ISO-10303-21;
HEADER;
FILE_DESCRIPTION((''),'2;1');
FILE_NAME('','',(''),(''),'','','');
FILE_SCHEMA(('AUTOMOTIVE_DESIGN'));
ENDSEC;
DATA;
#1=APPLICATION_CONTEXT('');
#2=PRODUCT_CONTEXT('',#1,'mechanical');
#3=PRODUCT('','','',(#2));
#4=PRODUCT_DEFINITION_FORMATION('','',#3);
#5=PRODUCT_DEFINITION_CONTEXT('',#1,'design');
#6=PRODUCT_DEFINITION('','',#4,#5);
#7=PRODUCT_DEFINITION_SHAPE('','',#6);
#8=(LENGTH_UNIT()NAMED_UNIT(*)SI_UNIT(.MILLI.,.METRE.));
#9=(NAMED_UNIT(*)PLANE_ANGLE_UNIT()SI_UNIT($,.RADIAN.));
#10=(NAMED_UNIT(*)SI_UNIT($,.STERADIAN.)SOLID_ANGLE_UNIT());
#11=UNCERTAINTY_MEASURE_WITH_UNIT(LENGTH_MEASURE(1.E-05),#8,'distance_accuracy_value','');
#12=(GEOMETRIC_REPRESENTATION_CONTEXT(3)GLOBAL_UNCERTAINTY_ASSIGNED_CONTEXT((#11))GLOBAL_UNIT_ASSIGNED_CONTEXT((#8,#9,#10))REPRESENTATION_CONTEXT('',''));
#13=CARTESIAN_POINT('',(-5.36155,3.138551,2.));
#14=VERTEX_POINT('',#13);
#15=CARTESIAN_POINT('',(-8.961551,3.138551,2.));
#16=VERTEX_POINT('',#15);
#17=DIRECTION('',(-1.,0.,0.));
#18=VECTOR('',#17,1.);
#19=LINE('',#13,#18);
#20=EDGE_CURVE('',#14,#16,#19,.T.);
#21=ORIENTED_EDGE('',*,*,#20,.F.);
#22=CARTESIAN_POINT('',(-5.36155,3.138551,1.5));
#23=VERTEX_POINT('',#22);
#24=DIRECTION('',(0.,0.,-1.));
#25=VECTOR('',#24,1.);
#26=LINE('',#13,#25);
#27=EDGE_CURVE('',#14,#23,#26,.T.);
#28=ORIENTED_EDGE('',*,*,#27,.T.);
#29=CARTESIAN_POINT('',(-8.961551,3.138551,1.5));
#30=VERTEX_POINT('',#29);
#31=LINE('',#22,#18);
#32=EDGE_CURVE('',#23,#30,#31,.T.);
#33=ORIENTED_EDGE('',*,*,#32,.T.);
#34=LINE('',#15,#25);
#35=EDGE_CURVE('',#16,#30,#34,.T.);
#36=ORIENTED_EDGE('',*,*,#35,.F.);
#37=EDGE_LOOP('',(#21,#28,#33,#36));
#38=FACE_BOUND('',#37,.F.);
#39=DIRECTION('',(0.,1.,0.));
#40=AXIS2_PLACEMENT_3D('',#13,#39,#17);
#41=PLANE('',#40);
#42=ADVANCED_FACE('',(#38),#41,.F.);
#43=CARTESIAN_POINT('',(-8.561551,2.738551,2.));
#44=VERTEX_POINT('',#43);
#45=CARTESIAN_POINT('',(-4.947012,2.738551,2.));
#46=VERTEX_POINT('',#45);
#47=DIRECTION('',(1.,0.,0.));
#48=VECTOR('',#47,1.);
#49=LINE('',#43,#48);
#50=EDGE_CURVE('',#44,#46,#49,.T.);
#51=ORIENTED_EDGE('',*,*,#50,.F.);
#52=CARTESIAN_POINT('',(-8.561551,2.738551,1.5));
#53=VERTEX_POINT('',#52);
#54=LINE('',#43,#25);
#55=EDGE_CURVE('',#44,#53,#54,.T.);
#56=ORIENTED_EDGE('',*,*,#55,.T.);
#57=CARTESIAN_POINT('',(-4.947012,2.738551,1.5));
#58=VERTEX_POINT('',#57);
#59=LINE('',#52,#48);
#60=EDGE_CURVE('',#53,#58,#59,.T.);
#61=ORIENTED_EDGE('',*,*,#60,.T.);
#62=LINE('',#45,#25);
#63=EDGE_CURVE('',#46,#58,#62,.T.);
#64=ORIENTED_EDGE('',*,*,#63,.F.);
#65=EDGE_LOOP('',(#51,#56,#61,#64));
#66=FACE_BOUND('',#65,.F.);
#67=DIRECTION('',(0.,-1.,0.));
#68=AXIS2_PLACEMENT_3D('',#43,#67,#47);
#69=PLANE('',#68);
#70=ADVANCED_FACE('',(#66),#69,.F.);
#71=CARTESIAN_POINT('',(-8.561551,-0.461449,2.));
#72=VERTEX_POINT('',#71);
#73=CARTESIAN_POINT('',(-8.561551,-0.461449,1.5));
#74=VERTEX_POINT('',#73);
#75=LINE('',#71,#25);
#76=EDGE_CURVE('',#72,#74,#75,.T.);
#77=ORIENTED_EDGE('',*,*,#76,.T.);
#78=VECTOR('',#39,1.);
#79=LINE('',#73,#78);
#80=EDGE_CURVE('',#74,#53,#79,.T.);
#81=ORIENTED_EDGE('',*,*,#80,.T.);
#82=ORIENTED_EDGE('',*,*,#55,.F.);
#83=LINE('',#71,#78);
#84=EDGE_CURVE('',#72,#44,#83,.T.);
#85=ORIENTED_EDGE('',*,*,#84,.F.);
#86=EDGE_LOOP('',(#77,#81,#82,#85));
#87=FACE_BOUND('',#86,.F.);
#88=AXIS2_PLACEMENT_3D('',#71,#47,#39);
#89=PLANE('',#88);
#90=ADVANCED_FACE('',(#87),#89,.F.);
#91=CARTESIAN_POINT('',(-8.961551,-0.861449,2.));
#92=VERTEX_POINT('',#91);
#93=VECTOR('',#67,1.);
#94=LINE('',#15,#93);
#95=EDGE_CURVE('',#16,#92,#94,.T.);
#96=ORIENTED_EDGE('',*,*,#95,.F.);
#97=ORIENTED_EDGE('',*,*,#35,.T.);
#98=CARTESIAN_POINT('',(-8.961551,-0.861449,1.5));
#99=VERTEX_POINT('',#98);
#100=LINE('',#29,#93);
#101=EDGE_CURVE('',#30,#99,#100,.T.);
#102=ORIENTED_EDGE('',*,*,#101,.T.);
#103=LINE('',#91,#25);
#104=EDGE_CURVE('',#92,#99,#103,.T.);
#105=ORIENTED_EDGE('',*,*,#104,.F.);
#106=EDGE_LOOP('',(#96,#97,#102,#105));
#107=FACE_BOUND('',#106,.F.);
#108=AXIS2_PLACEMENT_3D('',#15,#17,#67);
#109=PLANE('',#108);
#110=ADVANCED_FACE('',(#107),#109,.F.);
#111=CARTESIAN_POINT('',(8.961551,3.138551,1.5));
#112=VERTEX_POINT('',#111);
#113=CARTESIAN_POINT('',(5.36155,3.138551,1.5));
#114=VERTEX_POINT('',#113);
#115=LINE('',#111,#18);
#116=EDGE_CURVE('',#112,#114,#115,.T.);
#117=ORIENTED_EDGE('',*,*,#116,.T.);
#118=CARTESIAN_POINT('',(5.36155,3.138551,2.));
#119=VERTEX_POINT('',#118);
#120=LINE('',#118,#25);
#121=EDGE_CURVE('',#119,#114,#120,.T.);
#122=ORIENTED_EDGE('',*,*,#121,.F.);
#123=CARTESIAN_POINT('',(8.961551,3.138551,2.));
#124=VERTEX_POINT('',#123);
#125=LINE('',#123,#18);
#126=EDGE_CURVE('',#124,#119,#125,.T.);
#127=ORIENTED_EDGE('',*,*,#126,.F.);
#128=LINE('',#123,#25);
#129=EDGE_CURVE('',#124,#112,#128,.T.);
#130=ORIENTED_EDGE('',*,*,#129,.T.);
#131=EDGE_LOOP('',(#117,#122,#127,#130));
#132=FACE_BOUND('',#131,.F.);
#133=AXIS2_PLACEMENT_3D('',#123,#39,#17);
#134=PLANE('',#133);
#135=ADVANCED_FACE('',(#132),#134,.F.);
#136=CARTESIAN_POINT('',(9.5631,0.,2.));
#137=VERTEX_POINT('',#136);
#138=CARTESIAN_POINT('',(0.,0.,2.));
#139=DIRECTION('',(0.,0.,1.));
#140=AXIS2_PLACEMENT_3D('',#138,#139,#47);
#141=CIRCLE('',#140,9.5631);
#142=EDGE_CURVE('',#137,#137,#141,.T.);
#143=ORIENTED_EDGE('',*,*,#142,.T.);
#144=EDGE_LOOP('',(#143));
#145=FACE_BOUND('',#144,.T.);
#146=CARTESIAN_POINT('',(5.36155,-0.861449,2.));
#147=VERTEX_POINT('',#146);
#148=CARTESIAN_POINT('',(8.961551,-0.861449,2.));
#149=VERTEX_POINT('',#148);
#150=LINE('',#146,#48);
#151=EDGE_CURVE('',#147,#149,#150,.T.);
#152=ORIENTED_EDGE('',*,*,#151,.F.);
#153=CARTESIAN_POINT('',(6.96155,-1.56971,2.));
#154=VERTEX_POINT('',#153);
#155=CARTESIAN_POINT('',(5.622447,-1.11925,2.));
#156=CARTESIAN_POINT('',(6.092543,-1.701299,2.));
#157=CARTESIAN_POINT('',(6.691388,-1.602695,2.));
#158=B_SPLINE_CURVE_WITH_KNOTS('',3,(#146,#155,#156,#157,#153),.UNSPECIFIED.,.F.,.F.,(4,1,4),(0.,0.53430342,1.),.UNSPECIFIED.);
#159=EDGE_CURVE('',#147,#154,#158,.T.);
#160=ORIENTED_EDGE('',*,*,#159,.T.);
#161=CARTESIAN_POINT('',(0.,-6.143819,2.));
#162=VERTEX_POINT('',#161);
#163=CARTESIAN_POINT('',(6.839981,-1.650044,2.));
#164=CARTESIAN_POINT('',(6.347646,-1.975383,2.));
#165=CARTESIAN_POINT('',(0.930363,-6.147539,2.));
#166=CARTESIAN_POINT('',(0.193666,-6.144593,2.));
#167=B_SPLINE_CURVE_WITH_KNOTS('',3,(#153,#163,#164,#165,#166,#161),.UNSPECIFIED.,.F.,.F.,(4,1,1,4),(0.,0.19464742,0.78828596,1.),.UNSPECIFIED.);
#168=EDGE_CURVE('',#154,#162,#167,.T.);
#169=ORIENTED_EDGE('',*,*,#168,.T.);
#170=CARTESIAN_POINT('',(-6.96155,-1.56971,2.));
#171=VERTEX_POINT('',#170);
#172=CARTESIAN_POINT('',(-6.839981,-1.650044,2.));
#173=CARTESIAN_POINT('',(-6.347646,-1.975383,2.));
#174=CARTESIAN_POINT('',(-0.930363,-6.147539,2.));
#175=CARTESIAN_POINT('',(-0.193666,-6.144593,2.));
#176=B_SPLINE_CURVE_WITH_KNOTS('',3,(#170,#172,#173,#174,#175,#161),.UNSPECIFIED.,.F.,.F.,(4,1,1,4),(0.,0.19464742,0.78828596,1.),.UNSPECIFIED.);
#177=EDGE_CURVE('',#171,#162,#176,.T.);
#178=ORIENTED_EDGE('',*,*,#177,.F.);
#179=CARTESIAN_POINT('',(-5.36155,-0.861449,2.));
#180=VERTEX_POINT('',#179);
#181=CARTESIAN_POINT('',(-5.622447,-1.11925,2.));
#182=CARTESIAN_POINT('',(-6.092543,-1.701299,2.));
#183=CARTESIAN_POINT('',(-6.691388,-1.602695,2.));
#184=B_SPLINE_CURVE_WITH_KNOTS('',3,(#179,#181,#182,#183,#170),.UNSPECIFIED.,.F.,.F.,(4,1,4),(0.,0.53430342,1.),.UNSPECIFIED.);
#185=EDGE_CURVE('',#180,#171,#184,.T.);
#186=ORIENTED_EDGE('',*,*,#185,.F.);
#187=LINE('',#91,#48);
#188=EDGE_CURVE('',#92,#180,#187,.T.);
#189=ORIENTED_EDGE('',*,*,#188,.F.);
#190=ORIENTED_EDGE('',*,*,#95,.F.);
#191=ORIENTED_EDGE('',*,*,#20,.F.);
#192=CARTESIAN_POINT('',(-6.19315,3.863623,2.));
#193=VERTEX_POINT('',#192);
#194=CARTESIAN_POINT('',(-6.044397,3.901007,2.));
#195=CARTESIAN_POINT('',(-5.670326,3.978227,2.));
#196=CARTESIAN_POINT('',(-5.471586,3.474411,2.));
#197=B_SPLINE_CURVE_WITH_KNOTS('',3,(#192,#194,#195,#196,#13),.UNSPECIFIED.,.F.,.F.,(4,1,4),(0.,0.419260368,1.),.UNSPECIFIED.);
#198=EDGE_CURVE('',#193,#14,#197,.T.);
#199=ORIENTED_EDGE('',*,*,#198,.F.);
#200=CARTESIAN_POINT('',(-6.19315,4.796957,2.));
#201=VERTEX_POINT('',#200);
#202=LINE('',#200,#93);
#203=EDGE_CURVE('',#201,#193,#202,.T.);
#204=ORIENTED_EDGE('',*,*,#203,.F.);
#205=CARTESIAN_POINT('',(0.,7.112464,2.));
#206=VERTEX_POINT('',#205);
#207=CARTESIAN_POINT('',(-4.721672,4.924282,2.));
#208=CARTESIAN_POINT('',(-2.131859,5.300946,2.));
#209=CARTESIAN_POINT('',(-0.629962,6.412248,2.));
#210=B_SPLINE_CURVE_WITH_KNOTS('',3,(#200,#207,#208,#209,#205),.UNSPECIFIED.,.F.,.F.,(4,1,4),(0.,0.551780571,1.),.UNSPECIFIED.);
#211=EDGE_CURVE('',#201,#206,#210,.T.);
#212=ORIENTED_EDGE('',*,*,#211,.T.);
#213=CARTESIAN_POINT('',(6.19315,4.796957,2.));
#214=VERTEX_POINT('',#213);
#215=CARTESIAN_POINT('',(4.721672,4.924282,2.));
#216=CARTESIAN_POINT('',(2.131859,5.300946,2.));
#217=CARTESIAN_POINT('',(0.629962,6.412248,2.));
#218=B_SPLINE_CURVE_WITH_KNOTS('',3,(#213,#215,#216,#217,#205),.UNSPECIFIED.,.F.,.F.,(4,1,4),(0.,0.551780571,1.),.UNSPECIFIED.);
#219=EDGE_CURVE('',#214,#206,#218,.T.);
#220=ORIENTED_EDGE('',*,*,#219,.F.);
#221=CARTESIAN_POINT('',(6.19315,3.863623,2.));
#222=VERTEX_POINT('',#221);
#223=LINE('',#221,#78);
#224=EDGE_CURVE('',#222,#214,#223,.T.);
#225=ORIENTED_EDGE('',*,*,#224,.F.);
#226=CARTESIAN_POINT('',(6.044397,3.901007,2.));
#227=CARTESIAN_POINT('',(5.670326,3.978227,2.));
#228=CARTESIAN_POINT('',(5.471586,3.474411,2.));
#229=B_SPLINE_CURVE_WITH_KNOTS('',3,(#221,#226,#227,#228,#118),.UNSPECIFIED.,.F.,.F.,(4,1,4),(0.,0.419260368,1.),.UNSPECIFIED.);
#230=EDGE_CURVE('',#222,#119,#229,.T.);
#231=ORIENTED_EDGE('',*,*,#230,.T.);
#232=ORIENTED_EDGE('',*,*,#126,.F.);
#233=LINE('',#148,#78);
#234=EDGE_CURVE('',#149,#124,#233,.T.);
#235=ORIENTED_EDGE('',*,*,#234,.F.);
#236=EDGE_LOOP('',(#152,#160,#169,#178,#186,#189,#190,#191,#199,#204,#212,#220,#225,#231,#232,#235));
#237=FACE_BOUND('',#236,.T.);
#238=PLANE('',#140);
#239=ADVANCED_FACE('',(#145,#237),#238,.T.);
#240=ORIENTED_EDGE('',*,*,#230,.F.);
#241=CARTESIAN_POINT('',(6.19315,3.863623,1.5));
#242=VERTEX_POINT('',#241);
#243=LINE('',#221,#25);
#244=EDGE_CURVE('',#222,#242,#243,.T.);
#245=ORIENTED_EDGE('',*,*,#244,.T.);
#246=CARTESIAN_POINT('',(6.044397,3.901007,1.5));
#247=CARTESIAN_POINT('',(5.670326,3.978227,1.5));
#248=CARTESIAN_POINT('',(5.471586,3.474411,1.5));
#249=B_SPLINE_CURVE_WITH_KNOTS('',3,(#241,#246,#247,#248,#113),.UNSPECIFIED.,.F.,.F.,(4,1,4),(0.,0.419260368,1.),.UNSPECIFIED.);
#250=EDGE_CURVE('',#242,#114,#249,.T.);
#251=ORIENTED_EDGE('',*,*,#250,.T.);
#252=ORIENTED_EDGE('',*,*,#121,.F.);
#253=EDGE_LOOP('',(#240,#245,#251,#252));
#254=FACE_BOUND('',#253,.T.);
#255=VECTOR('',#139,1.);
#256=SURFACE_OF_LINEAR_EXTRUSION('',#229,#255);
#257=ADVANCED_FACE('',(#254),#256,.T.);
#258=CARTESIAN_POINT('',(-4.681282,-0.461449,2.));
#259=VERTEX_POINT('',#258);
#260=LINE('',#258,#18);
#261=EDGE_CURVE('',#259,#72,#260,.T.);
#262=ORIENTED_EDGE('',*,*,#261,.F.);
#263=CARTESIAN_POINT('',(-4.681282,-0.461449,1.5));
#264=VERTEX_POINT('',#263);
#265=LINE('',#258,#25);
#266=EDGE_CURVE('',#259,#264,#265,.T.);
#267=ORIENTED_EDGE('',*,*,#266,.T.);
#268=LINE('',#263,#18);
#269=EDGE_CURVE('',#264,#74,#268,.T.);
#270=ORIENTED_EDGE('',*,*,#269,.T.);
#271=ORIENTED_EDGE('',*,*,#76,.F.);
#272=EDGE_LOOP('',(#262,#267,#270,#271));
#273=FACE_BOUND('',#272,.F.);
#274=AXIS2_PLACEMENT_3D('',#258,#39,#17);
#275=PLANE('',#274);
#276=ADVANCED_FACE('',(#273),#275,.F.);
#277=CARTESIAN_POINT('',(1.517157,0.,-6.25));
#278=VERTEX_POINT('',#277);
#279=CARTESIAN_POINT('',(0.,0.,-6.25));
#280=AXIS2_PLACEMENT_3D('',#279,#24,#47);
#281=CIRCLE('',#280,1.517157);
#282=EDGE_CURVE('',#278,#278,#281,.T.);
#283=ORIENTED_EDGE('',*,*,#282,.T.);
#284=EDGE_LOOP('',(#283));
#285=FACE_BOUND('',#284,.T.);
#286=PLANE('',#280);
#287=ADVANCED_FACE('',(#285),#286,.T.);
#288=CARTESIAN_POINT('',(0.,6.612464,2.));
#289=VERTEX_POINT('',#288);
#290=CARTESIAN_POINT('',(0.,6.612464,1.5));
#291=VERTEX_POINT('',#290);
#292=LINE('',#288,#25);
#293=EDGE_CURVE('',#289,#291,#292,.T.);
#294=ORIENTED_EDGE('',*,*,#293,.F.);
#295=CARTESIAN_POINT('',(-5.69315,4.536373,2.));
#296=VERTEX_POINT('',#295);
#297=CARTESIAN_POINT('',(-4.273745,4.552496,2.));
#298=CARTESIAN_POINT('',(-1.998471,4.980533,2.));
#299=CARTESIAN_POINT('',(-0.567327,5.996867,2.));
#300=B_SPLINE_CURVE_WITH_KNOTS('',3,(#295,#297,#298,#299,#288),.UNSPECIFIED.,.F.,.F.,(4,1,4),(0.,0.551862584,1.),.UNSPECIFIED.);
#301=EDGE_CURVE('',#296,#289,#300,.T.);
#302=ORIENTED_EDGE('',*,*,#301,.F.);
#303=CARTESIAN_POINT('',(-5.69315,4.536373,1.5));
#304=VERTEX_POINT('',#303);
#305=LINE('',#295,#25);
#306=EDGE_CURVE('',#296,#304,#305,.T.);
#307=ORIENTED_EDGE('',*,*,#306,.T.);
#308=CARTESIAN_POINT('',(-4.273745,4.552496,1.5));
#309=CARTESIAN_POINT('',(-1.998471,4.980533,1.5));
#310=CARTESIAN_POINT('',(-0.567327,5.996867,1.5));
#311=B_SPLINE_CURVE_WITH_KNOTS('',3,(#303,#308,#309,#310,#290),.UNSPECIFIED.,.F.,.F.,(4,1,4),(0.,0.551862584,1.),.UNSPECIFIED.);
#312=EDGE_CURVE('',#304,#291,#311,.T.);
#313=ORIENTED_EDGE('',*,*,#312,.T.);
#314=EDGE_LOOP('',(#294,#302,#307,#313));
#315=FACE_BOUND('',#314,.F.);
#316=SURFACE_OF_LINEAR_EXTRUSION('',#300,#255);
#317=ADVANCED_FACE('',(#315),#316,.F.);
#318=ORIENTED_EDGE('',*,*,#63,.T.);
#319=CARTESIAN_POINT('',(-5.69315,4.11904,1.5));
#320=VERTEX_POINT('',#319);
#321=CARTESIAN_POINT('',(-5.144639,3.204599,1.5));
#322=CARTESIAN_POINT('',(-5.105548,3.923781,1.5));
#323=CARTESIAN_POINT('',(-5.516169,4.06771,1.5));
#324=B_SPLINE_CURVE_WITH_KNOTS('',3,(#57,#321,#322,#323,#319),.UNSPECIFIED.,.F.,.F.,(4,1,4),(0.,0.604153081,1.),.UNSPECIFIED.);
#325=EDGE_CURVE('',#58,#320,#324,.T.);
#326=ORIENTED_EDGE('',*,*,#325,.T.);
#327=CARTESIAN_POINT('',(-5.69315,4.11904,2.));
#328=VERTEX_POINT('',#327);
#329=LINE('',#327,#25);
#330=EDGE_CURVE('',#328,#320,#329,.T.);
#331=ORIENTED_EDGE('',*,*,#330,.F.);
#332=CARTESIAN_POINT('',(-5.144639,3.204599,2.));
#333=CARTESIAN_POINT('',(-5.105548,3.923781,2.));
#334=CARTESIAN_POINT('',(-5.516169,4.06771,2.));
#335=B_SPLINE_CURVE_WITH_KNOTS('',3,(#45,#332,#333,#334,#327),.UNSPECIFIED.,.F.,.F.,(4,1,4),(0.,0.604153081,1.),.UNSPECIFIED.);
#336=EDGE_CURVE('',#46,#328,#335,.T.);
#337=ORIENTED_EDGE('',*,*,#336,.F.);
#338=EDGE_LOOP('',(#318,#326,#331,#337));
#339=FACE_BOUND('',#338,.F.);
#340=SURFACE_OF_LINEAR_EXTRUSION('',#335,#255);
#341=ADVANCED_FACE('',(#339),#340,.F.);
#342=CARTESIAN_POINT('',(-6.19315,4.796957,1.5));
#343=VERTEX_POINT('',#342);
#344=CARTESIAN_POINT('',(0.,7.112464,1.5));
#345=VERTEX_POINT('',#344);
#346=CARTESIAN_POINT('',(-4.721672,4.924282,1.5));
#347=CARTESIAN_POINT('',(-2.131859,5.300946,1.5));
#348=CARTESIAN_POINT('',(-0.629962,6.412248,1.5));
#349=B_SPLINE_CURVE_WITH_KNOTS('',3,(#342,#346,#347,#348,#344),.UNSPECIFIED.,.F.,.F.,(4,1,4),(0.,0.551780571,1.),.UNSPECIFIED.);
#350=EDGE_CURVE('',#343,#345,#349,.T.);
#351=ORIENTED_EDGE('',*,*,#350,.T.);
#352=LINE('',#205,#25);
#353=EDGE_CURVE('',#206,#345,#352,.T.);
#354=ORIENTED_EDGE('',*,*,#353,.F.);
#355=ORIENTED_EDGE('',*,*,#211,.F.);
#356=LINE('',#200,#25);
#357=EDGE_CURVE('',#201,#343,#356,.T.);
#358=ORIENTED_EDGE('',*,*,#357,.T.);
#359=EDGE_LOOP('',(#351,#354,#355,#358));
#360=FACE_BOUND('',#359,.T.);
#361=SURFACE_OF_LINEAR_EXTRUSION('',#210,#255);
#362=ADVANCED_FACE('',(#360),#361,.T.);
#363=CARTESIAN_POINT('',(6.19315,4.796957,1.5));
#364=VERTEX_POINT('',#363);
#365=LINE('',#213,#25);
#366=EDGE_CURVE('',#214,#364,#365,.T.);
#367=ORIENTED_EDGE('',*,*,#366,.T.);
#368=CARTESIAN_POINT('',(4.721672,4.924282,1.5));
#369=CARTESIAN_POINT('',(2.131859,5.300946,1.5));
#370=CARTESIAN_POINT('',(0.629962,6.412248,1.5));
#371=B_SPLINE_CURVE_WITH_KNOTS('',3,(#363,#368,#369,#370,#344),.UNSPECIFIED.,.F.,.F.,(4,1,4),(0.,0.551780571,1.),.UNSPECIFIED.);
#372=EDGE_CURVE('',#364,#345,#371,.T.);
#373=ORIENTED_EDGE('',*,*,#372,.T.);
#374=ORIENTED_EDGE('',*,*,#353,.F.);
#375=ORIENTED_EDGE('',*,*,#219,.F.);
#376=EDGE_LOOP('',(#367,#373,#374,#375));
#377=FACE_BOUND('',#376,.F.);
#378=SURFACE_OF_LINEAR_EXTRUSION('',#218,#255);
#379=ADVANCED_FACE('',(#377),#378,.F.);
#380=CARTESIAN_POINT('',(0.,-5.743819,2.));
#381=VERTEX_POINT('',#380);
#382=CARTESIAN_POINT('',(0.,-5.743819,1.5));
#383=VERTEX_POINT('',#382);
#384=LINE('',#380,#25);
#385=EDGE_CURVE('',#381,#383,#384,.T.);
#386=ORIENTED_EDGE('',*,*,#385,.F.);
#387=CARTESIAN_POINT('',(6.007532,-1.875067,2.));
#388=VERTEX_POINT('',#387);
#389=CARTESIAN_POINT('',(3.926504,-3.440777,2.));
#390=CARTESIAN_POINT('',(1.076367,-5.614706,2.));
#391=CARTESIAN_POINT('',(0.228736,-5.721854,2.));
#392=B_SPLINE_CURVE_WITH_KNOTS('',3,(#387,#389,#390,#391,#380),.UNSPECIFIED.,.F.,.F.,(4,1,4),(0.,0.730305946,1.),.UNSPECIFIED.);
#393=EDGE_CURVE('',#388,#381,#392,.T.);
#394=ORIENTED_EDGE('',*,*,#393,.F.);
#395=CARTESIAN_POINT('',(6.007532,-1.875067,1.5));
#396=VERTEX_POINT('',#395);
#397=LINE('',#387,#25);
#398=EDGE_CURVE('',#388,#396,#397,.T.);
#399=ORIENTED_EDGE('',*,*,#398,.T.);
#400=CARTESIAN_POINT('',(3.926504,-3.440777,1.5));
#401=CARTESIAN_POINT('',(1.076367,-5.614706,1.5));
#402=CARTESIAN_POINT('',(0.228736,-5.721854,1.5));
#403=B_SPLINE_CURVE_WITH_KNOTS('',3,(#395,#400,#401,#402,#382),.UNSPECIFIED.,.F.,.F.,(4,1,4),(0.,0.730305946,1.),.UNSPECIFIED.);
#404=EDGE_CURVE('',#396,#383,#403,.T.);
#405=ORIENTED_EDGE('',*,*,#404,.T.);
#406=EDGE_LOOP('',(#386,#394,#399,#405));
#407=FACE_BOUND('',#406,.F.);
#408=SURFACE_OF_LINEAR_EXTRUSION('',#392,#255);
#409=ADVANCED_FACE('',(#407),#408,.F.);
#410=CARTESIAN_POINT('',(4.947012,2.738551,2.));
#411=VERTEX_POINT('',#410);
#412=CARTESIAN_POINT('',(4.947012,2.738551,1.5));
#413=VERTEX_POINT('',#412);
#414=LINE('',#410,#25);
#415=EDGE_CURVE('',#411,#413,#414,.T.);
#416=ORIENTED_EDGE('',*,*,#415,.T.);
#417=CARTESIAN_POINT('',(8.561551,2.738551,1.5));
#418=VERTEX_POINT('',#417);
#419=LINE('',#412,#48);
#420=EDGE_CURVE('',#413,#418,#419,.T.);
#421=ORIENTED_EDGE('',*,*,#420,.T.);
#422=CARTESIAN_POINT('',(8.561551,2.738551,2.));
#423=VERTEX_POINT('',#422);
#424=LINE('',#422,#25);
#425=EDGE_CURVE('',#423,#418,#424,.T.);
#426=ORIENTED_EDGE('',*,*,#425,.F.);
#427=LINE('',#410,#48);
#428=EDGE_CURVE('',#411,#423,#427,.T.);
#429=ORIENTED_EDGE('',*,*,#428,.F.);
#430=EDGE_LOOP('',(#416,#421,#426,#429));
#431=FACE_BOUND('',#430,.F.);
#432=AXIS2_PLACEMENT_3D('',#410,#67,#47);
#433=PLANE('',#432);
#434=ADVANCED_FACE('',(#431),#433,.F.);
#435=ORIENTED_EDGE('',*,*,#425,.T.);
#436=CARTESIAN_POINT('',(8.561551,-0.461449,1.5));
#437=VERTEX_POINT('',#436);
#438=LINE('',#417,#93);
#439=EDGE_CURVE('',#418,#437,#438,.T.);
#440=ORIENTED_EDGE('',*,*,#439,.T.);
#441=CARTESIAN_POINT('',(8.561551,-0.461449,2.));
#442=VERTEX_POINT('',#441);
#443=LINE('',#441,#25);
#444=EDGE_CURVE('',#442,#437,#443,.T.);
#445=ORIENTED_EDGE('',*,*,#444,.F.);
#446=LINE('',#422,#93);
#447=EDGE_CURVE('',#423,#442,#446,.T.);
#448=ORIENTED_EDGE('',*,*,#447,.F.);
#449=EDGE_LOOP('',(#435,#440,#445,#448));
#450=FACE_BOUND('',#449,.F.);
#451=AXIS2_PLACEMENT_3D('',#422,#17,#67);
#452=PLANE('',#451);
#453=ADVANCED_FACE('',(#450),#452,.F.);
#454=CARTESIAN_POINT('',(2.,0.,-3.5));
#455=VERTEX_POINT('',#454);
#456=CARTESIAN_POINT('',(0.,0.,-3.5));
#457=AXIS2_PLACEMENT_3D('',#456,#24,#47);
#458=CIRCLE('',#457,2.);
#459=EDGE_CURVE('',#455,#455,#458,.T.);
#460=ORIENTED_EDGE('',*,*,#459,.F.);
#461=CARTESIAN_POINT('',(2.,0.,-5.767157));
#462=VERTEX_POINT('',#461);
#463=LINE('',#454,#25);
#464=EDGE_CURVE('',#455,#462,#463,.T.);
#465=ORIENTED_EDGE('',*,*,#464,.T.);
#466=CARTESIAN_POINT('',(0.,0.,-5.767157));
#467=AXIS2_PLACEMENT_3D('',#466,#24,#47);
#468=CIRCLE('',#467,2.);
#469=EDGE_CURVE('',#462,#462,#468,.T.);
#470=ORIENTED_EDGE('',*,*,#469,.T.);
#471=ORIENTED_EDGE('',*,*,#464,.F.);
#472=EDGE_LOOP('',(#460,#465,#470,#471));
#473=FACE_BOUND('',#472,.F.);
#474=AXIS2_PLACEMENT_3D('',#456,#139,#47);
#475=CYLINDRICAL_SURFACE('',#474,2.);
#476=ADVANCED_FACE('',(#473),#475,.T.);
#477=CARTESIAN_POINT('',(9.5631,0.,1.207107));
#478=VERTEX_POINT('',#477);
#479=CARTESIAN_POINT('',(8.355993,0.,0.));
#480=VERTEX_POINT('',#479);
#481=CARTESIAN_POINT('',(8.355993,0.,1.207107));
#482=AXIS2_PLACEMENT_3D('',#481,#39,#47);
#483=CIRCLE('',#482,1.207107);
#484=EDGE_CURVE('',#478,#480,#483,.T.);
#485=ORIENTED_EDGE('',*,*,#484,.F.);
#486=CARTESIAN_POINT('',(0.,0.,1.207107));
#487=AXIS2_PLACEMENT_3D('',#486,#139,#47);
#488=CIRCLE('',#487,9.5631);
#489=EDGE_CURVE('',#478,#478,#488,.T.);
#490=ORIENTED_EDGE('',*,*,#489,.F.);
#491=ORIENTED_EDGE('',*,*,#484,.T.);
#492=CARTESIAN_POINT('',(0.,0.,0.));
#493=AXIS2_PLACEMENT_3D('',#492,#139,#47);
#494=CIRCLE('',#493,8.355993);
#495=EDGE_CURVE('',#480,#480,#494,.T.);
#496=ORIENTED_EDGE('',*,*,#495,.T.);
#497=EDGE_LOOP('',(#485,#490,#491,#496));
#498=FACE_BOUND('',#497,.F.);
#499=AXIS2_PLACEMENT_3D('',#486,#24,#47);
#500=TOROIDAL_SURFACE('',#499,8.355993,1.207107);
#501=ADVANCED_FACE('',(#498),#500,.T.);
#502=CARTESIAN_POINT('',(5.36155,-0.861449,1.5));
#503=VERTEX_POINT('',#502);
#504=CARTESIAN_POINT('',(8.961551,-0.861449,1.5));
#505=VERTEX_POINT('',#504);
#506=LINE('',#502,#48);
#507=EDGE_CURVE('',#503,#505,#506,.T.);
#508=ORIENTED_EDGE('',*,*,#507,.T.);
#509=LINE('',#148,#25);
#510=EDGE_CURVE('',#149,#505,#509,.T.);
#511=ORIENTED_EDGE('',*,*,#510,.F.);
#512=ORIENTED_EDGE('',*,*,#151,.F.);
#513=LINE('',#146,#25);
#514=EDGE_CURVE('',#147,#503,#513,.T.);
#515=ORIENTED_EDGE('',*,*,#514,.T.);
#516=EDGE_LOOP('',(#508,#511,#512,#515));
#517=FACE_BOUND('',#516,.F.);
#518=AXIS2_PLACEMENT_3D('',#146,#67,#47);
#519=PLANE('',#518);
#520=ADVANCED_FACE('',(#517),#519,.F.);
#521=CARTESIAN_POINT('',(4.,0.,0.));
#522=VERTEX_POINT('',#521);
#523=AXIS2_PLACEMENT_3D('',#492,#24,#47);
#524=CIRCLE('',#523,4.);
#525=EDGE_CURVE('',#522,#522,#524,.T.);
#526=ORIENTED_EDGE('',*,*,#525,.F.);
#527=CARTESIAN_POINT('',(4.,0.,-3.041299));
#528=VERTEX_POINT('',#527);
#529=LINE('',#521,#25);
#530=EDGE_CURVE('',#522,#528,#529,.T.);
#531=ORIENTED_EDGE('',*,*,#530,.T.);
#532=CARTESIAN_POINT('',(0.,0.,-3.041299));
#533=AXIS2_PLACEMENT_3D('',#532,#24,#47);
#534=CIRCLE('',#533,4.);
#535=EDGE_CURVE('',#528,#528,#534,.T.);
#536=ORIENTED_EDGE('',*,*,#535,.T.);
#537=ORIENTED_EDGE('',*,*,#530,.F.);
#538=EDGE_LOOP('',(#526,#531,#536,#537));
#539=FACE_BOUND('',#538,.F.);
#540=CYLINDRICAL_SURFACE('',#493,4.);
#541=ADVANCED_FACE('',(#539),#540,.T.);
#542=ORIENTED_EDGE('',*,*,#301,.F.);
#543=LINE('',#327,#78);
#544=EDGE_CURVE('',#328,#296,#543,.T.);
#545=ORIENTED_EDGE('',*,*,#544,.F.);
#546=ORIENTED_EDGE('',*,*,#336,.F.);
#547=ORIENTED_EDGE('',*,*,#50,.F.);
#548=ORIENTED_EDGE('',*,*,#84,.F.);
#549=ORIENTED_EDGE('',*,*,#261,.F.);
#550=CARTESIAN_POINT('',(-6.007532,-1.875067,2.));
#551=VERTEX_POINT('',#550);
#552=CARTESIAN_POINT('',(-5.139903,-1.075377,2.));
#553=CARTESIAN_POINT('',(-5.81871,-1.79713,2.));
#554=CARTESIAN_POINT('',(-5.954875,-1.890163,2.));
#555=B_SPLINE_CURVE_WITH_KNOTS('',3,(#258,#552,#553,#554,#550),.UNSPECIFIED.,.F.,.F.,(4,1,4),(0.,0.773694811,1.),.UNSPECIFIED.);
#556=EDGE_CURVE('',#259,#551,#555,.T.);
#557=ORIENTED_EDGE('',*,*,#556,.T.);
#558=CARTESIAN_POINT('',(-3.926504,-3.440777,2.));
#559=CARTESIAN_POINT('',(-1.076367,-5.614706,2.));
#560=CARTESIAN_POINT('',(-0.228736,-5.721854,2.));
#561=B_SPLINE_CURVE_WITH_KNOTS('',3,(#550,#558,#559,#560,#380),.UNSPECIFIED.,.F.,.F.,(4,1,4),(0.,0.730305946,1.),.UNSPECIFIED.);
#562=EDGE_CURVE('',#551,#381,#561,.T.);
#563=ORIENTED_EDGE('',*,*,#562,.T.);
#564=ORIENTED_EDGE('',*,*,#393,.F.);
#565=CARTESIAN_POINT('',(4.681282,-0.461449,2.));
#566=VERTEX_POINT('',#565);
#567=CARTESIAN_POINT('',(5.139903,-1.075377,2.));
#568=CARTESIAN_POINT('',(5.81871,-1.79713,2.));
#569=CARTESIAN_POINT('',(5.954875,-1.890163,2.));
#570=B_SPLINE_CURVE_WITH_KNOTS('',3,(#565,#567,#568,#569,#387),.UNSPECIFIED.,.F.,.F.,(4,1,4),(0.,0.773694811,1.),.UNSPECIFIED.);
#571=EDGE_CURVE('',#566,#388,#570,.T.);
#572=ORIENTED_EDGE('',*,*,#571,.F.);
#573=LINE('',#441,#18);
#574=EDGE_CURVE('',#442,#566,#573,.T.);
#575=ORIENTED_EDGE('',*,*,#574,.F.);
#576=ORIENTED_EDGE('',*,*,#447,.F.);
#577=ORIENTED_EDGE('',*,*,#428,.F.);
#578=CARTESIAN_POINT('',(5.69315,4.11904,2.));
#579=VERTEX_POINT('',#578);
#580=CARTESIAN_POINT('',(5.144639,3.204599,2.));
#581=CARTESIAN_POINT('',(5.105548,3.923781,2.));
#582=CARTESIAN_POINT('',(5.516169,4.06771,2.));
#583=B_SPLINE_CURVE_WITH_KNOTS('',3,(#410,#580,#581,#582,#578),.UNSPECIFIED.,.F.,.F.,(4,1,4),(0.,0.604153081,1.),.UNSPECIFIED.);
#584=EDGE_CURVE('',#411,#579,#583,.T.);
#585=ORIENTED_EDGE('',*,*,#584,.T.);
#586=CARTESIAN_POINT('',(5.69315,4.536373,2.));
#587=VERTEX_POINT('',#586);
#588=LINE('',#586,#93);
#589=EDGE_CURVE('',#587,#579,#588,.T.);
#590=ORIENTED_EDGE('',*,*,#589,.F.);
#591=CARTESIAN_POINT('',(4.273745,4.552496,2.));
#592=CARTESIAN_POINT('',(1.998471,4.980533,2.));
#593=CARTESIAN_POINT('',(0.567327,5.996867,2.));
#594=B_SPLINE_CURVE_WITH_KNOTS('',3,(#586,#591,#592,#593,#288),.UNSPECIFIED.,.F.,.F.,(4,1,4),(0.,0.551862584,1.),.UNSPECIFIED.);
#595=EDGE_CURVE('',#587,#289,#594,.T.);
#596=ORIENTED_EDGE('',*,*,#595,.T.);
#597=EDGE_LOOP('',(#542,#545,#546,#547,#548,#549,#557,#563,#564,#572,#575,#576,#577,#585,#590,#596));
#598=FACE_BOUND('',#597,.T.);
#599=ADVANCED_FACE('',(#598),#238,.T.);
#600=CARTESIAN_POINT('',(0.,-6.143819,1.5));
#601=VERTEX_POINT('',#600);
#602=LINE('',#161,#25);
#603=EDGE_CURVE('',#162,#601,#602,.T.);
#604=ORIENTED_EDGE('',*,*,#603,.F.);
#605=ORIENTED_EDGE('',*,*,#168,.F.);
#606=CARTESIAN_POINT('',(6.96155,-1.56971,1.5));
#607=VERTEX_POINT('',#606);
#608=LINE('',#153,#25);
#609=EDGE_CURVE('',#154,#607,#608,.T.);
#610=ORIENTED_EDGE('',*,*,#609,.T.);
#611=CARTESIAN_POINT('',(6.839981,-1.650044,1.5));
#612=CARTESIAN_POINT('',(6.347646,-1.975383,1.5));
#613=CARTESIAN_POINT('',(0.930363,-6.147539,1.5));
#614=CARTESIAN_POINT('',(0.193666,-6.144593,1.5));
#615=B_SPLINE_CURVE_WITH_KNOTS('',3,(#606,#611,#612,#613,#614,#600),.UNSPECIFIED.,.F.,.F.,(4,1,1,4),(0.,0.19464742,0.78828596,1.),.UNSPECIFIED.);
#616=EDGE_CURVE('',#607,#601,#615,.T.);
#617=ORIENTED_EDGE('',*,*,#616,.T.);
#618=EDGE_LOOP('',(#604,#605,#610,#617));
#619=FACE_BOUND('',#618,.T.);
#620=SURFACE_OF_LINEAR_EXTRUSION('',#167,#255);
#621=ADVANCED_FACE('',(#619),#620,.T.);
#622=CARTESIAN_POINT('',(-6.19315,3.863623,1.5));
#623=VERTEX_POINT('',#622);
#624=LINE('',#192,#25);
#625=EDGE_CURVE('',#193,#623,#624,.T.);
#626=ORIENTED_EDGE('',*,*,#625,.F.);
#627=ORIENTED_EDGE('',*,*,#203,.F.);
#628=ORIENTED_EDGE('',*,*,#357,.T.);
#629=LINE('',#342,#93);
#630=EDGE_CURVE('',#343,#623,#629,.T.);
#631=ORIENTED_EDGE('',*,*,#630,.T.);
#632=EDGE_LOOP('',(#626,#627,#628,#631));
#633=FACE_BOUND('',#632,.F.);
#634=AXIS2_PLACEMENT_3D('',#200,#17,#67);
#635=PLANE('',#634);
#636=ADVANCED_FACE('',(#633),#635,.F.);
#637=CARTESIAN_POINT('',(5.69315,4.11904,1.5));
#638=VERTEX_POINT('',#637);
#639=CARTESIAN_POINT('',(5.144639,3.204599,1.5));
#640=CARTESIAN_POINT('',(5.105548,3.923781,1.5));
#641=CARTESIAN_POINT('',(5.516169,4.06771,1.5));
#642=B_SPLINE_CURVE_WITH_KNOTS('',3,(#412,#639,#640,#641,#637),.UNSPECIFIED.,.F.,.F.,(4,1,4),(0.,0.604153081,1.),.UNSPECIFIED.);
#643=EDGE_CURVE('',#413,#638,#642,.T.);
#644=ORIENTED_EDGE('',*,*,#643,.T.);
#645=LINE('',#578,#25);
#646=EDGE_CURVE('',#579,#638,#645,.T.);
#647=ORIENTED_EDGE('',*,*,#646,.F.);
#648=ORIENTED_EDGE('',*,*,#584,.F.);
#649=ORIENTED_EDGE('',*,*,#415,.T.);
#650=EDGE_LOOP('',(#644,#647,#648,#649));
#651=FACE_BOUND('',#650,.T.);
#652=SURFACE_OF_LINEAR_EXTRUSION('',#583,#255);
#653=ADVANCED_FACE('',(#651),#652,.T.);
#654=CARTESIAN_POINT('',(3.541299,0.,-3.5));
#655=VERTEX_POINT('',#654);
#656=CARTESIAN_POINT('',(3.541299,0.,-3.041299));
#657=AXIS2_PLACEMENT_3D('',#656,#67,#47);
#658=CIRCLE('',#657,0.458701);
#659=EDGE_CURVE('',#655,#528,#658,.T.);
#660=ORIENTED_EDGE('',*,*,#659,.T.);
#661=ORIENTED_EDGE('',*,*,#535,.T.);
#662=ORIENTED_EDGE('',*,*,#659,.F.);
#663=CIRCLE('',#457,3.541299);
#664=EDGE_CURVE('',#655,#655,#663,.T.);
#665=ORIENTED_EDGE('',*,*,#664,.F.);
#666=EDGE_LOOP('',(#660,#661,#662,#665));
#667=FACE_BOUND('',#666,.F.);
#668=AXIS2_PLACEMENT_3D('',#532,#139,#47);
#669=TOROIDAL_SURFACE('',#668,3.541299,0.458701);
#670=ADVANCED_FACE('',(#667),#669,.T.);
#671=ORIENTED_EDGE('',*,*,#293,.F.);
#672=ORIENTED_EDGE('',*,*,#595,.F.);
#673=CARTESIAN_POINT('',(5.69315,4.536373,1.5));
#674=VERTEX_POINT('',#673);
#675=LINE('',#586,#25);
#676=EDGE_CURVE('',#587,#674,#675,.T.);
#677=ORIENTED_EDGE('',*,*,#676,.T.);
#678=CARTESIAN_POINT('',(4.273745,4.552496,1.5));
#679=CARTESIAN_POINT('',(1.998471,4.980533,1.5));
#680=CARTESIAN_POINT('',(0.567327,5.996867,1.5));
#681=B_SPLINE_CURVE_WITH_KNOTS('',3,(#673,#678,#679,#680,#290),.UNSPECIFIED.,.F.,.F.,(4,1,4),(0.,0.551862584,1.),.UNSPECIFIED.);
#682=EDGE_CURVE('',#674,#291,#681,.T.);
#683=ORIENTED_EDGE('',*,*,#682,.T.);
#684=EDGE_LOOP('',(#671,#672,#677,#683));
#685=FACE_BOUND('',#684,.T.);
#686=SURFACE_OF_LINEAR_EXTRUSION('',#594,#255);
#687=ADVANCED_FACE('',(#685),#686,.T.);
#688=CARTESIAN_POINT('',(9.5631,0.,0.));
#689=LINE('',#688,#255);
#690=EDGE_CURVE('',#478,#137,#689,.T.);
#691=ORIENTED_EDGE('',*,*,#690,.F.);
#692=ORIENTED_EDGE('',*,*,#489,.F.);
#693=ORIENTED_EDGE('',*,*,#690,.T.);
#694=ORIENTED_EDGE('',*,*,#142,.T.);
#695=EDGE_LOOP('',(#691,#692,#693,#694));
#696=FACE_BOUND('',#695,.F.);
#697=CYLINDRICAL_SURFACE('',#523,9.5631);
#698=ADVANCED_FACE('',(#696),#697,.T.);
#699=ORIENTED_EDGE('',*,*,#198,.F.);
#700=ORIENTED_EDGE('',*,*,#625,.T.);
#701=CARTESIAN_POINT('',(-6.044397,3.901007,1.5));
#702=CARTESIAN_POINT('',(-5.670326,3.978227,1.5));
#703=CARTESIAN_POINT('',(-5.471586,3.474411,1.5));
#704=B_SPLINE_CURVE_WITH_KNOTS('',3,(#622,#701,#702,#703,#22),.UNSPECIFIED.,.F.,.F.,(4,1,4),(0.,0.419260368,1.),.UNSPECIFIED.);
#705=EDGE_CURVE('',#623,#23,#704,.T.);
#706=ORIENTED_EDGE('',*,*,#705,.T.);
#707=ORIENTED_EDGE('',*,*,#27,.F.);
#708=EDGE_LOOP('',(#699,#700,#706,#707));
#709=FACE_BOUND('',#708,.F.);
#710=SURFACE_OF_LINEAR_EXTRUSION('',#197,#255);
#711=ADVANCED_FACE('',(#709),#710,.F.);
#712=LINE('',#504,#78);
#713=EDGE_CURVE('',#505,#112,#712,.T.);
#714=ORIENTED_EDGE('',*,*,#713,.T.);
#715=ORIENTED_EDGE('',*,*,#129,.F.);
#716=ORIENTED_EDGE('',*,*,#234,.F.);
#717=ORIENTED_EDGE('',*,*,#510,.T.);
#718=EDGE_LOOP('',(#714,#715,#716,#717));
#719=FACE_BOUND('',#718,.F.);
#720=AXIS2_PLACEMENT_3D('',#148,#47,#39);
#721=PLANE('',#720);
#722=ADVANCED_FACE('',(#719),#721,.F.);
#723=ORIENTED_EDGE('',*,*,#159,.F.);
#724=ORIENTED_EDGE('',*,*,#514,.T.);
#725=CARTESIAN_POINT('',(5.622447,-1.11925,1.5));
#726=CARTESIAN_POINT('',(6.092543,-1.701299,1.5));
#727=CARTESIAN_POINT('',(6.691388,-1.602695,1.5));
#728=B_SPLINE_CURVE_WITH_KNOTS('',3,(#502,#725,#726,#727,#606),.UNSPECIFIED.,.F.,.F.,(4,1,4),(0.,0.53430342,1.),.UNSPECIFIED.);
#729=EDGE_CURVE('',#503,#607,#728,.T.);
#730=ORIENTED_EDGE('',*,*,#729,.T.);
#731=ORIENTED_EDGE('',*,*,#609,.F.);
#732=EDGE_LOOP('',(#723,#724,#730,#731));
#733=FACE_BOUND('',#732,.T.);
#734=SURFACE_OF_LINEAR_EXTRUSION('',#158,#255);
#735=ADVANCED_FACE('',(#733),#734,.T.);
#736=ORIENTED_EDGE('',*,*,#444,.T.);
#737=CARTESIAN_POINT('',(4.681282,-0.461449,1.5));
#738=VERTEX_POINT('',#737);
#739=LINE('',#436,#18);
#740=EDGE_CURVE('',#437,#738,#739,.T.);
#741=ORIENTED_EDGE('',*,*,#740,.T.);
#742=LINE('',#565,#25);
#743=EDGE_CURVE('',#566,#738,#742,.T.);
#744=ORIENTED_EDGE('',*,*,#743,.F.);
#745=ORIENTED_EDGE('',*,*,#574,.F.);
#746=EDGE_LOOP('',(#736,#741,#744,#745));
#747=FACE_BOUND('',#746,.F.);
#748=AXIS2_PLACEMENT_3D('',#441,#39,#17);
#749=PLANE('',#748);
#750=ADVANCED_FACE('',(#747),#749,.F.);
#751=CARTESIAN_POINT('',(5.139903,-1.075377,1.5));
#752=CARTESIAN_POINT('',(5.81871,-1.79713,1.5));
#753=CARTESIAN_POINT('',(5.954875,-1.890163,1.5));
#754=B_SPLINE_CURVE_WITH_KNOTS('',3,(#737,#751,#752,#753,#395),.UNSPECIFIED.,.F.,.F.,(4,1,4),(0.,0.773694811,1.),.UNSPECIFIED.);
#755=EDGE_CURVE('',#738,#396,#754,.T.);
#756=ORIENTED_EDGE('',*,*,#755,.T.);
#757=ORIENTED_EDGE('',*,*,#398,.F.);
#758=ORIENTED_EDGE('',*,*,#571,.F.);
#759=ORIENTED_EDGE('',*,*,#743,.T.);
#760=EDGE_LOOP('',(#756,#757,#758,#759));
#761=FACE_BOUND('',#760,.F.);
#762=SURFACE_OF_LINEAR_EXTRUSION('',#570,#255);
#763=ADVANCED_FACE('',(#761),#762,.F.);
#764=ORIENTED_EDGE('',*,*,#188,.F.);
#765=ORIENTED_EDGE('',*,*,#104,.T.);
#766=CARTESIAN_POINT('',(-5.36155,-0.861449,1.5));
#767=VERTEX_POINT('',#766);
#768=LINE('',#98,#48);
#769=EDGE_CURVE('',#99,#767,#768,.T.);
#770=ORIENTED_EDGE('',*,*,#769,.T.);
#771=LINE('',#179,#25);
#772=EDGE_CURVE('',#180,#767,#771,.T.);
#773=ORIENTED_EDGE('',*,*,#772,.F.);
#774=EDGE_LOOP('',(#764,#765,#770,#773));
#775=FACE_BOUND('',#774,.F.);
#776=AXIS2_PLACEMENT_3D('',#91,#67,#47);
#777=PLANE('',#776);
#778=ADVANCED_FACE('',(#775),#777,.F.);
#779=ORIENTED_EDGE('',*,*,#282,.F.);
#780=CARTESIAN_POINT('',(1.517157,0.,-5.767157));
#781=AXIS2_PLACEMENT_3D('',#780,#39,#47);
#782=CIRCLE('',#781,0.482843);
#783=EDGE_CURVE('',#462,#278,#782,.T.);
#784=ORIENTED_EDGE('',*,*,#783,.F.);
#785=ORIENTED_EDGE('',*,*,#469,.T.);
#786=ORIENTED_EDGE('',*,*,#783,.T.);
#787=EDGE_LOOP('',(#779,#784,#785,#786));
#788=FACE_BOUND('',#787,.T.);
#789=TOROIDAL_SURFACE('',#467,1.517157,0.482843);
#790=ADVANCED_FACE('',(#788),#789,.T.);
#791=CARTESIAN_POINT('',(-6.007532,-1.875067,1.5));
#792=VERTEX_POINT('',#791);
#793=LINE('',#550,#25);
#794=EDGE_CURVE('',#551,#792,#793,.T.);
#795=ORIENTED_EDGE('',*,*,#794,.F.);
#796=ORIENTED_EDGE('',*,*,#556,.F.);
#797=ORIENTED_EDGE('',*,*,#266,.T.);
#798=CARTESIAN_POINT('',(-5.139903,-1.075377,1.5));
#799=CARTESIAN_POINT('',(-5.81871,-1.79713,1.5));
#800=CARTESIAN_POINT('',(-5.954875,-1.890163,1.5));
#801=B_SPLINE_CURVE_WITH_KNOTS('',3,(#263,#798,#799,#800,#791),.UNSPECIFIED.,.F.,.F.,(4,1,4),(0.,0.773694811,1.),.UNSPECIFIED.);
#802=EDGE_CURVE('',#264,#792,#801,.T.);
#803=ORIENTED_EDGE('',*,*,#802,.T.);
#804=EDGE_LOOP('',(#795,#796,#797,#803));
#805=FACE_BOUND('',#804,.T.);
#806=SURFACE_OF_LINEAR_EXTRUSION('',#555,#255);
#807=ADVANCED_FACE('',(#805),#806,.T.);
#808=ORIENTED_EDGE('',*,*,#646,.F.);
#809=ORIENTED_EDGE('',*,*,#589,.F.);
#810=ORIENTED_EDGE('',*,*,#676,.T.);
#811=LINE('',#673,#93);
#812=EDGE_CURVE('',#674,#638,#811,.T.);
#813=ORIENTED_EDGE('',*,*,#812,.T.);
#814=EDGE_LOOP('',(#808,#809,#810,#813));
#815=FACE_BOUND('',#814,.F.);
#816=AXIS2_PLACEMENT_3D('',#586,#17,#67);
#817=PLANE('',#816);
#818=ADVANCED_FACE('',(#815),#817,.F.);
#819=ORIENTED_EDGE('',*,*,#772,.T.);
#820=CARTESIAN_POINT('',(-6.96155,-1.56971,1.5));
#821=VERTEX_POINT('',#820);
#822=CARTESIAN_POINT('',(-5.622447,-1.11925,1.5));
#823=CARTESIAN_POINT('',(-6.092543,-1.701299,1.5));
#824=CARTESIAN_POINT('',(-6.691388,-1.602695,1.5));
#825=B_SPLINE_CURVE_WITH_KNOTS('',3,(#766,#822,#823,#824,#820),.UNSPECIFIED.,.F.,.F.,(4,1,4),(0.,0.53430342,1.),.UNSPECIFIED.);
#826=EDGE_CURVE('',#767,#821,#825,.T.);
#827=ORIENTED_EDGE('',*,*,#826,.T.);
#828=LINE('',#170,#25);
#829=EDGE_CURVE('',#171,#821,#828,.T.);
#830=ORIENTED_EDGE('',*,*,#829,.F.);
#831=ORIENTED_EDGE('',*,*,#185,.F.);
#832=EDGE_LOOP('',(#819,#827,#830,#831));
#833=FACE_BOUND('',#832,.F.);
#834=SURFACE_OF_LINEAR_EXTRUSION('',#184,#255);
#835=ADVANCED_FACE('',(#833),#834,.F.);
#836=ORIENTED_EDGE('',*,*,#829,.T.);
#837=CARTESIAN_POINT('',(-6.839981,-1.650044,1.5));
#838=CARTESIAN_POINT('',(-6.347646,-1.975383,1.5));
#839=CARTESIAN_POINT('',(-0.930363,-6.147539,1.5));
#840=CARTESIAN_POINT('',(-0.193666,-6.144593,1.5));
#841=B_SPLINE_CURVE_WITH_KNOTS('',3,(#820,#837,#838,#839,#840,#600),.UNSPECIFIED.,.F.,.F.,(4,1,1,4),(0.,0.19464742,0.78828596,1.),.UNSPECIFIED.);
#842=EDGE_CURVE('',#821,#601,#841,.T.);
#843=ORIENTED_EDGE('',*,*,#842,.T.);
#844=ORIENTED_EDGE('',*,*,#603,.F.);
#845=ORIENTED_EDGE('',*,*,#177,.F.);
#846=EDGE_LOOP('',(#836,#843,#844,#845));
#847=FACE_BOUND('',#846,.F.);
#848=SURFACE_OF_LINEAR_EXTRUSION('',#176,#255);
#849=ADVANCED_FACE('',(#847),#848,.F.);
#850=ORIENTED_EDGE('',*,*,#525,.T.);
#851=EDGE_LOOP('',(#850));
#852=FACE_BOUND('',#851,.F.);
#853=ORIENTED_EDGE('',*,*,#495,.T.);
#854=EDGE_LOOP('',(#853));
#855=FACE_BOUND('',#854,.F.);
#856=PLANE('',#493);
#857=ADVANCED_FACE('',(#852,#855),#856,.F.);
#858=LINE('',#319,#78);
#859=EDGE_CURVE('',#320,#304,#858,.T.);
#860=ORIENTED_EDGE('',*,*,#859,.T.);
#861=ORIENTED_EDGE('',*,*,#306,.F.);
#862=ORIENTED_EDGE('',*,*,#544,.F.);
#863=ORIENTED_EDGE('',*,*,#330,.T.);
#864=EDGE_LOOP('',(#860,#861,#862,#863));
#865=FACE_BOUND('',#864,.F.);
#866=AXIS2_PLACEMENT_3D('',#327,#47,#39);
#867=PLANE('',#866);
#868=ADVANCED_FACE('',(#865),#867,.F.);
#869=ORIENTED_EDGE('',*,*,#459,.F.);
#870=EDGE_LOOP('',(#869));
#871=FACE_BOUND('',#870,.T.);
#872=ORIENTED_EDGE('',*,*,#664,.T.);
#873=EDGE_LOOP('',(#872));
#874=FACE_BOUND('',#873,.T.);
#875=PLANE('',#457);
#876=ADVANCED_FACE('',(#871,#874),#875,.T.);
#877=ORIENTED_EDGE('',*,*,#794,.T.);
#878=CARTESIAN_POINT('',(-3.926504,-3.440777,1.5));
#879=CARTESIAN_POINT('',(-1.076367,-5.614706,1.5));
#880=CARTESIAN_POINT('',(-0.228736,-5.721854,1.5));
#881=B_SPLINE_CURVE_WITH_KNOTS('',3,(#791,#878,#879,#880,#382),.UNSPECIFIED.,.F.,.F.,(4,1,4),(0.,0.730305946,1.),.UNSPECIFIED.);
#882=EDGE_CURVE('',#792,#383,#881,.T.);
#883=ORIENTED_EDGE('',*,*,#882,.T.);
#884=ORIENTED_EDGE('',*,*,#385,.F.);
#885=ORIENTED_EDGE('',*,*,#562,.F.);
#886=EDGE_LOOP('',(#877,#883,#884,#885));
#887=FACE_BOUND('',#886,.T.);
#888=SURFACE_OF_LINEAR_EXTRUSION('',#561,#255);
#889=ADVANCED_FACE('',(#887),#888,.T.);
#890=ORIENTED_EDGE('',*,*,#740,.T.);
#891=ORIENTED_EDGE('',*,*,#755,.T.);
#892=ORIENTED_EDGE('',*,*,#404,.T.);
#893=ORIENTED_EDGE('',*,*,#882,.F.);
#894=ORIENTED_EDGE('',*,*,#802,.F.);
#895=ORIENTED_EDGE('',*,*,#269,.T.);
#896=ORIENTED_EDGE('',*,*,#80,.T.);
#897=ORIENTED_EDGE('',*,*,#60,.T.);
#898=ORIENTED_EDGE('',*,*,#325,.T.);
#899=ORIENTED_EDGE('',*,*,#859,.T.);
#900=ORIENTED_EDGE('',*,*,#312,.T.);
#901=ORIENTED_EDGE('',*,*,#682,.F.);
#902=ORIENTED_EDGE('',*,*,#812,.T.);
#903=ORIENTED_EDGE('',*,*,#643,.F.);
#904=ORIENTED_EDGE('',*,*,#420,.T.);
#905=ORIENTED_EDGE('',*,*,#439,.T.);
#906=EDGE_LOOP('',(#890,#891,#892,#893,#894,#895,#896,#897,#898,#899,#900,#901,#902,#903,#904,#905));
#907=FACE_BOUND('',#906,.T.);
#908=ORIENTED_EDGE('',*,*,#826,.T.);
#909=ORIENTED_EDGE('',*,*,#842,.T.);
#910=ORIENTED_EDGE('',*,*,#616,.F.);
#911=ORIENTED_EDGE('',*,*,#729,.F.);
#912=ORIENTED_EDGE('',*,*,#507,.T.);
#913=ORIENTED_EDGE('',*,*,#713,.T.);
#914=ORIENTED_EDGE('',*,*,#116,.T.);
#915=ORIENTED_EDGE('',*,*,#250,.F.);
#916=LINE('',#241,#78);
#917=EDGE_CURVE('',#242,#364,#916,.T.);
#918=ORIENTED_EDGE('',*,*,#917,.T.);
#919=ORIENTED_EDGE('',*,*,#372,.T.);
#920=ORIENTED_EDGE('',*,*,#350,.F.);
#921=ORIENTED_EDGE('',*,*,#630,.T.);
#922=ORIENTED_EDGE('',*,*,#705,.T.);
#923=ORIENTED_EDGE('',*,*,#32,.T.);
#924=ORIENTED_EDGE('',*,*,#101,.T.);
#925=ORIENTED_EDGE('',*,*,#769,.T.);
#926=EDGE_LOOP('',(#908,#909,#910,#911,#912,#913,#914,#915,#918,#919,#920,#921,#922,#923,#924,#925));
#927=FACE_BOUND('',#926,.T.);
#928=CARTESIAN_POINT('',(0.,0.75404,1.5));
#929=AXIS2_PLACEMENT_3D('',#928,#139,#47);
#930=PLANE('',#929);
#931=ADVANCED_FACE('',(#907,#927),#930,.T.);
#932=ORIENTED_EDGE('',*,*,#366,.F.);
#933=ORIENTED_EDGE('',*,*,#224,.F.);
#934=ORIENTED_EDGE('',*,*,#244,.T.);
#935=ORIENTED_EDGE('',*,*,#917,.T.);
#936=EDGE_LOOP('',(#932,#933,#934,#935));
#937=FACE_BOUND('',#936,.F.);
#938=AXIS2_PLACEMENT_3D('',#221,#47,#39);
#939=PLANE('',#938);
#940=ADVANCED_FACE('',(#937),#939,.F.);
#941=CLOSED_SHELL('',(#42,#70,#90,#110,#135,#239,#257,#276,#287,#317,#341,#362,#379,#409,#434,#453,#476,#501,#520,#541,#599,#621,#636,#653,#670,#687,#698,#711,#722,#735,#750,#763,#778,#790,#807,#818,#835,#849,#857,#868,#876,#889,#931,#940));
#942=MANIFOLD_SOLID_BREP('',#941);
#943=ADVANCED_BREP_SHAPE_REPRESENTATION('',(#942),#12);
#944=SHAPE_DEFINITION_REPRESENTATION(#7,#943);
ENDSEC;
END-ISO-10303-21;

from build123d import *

# Parameters (mm, degrees)
F0_R     = 9.5631
F1_DEPTH = 2
F3_DEPTH = 0.5
F4_R     = 4
F5_DEPTH = 3.5
F6_R     = 1.2071067812
F7_R     = 2
F8_DEPTH = 2.75
F9_R     = 0.4828427125
F10_R    = 0.4587005769


with BuildPart() as f1:
    # F0 (on Top) → F1 (new body)
    with BuildSketch(Plane.XY):
        Circle(F0_R)
    extrude(amount=F1_DEPTH)

    # F2 (on face) → F3 (cut)
    with BuildSketch(Plane.XY.offset(2)):
        with BuildLine():
            Line((-5.3615504412, 3.1385514695), (-8.9615506499, 3.1385514695))
            Line((-8.9615506499, 3.1385514695), (-8.9615506499, -0.8614485305))
            Line((-8.9615506499, -0.8614485305), (-5.3615504412, -0.8614485305))
            add(Edge.make_bspline(
                [(-5.3615504412, -0.8614485305), (-5.6224469921, -1.1192503233), (-6.0925433919, -1.7012989472), (-6.6913880247, -1.6026951337), (-6.9615501282, -1.56970984)],
                knots=[0, 0, 0, 0, 0.5343034202, 1, 1, 1, 1], degree=3))
            add(Edge.make_bspline(
                [(-6.9615501282, -1.56970984), (-6.8399805695, -1.6500440597), (-6.347646398, -1.9753827537), (-0.9303625125, -6.1475392154), (-0.1936655889, -6.144593355), (0, -6.1438189364)],
                knots=[0, 0, 0, 0, 0.1946474203, 0.7882859605, 1, 1, 1, 1], degree=3))
            add(Edge.make_bspline(
                [(6.9615501282, -1.56970984), (6.8399805695, -1.6500440597), (6.347646398, -1.9753827537), (0.9303625125, -6.1475392154), (0.1936655889, -6.144593355), (0, -6.1438189364)],
                knots=[0, 0, 0, 0, 0.1946474203, 0.7882859605, 1, 1, 1, 1], degree=3))
            add(Edge.make_bspline(
                [(5.3615504412, -0.8614485305), (5.6224469921, -1.1192503233), (6.0925433919, -1.7012989472), (6.6913880247, -1.6026951337), (6.9615501282, -1.56970984)],
                knots=[0, 0, 0, 0, 0.5343034202, 1, 1, 1, 1], degree=3))
            Line((5.3615504412, -0.8614485305), (8.9615506499, -0.8614485305))
            Line((8.9615506499, -0.8614485305), (8.9615506499, 3.1385514695))
            Line((8.9615506499, 3.1385514695), (5.3615504412, 3.1385514695))
            add(Edge.make_bspline(
                [(6.1931497529, 3.8636233108), (6.0443974333, 3.9010068061), (5.670325539, 3.978226764), (5.4715862757, 3.474410976), (5.3615504412, 3.1385514695)],
                knots=[0, 0, 0, 0, 0.4192603681, 1, 1, 1, 1], degree=3))
            Line((6.1931497529, 3.8636233108), (6.1931497529, 4.7969568528))
            add(Edge.make_bspline(
                [(6.1931497529, 4.7969568528), (4.7216724548, 4.9242823231), (2.1318591256, 5.3009462593), (0.6299616116, 6.4122477435), (0, 7.1124638543)],
                knots=[0, 0, 0, 0, 0.5517805711, 1, 1, 1, 1], degree=3))
            add(Edge.make_bspline(
                [(-6.1931497529, 4.7969568528), (-4.7216724548, 4.9242823231), (-2.1318591256, 5.3009462593), (-0.6299616116, 6.4122477435), (0, 7.1124638543)],
                knots=[0, 0, 0, 0, 0.5517805711, 1, 1, 1, 1], degree=3))
            Line((-6.1931497529, 4.7969568528), (-6.1931497529, 3.8636233108))
            add(Edge.make_bspline(
                [(-6.1931497529, 3.8636233108), (-6.0443974333, 3.9010068061), (-5.670325539, 3.978226764), (-5.4715862757, 3.474410976), (-5.3615504412, 3.1385514695)],
                knots=[0, 0, 0, 0, 0.4192603681, 1, 1, 1, 1], degree=3))
        make_face()
        with BuildLine():
            Line((-8.5615506499, -0.4614485305), (-8.5615506499, 2.7385514695))
            Line((-8.5615506499, 2.7385514695), (-4.9470122904, 2.7385514695))
            add(Edge.make_bspline(
                [(-4.9470122904, 2.7385514695), (-5.1446386525, 3.2045990564), (-5.1055478765, 3.9237810781), (-5.5161688277, 4.0677103042), (-5.6931497529, 4.1190395132)],
                knots=[0, 0, 0, 0, 0.6041530811, 1, 1, 1, 1], degree=3))
            Line((-5.6931497529, 4.1190395132), (-5.6931497529, 4.5363726094))
            add(Edge.make_bspline(
                [(-5.6931497529, 4.5363726094), (-4.2737453772, 4.5524962856), (-1.9984707056, 4.9805333611), (-0.5673266444, 5.9968670056), (0, 6.6124638543)],
                knots=[0, 0, 0, 0, 0.5518625842, 1, 1, 1, 1], degree=3))
            add(Edge.make_bspline(
                [(5.6931497529, 4.5363726094), (4.2737453772, 4.5524962856), (1.9984707056, 4.9805333611), (0.5673266444, 5.9968670056), (0, 6.6124638543)],
                knots=[0, 0, 0, 0, 0.5518625842, 1, 1, 1, 1], degree=3))
            Line((5.6931497529, 4.5363726094), (5.6931497529, 4.1190395132))
            add(Edge.make_bspline(
                [(4.9470122904, 2.7385514695), (5.1446386525, 3.2045990564), (5.1055478765, 3.9237810781), (5.5161688277, 4.0677103042), (5.6931497529, 4.1190395132)],
                knots=[0, 0, 0, 0, 0.6041530811, 1, 1, 1, 1], degree=3))
            Line((4.9470122904, 2.7385514695), (8.5615506499, 2.7385514695))
            Line((8.5615506499, 2.7385514695), (8.5615506499, -0.4614485305))
            Line((8.5615506499, -0.4614485305), (4.6812822111, -0.4614485305))
            add(Edge.make_bspline(
                [(4.6812822111, -0.4614485305), (5.1399033686, -1.0753765004), (5.8187100584, -1.7971304682), (5.9548754674, -1.8901632532), (6.0075321235, -1.8750670133)],
                knots=[0, 0, 0, 0, 0.7736948108, 1, 1, 1, 1], degree=3))
            add(Edge.make_bspline(
                [(6.0075321235, -1.8750670133), (3.9265038862, -3.4407765932), (1.0763673429, -5.6147060905), (0.2287364416, -5.721853651), (0, -5.7438189364)],
                knots=[0, 0, 0, 0, 0.7303059463, 1, 1, 1, 1], degree=3))
            add(Edge.make_bspline(
                [(-6.0075321235, -1.8750670133), (-3.9265038862, -3.4407765932), (-1.0763673429, -5.6147060905), (-0.2287364416, -5.721853651), (0, -5.7438189364)],
                knots=[0, 0, 0, 0, 0.7303059463, 1, 1, 1, 1], degree=3))
            add(Edge.make_bspline(
                [(-4.6812822111, -0.4614485305), (-5.1399033686, -1.0753765004), (-5.8187100584, -1.7971304682), (-5.9548754674, -1.8901632532), (-6.0075321235, -1.8750670133)],
                knots=[0, 0, 0, 0, 0.7736948108, 1, 1, 1, 1], degree=3))
            Line((-4.6812822111, -0.4614485305), (-8.5615506499, -0.4614485305))
        make_face(mode=Mode.SUBTRACT)
    extrude(amount=-F3_DEPTH, mode=Mode.SUBTRACT)

    # F4 (on face) → F5 (join)
    with BuildSketch(Plane(origin=(0, 0, 0), x_dir=(1, 0, 0), z_dir=(0, 0, -1))):
        Circle(F4_R)
    extrude(amount=F5_DEPTH)

    # F6
    f6_edges = [f1.edges().sort_by_distance(p)[0] for p in [
        (-9.5631, 0, 0),
    ]]
    fillet(f6_edges, radius=F6_R)

    # F7 (on face) → F8 (join)
    with BuildSketch(Plane(origin=(0, 0, -3.5), x_dir=(1, 0, 0), z_dir=(0, 0, -1))):
        Circle(F7_R)
    extrude(amount=F8_DEPTH)

    # F9
    f9_edges = [f1.edges().sort_by_distance(p)[0] for p in [
        (-2, 0, -6.25),
    ]]
    fillet(f9_edges, radius=F9_R)

    # F10
    f10_edges = [f1.edges().sort_by_distance(p)[0] for p in [
        (-4, 0, -3.5),
    ]]
    fillet(f10_edges, radius=F10_R)


solid = f1.part
